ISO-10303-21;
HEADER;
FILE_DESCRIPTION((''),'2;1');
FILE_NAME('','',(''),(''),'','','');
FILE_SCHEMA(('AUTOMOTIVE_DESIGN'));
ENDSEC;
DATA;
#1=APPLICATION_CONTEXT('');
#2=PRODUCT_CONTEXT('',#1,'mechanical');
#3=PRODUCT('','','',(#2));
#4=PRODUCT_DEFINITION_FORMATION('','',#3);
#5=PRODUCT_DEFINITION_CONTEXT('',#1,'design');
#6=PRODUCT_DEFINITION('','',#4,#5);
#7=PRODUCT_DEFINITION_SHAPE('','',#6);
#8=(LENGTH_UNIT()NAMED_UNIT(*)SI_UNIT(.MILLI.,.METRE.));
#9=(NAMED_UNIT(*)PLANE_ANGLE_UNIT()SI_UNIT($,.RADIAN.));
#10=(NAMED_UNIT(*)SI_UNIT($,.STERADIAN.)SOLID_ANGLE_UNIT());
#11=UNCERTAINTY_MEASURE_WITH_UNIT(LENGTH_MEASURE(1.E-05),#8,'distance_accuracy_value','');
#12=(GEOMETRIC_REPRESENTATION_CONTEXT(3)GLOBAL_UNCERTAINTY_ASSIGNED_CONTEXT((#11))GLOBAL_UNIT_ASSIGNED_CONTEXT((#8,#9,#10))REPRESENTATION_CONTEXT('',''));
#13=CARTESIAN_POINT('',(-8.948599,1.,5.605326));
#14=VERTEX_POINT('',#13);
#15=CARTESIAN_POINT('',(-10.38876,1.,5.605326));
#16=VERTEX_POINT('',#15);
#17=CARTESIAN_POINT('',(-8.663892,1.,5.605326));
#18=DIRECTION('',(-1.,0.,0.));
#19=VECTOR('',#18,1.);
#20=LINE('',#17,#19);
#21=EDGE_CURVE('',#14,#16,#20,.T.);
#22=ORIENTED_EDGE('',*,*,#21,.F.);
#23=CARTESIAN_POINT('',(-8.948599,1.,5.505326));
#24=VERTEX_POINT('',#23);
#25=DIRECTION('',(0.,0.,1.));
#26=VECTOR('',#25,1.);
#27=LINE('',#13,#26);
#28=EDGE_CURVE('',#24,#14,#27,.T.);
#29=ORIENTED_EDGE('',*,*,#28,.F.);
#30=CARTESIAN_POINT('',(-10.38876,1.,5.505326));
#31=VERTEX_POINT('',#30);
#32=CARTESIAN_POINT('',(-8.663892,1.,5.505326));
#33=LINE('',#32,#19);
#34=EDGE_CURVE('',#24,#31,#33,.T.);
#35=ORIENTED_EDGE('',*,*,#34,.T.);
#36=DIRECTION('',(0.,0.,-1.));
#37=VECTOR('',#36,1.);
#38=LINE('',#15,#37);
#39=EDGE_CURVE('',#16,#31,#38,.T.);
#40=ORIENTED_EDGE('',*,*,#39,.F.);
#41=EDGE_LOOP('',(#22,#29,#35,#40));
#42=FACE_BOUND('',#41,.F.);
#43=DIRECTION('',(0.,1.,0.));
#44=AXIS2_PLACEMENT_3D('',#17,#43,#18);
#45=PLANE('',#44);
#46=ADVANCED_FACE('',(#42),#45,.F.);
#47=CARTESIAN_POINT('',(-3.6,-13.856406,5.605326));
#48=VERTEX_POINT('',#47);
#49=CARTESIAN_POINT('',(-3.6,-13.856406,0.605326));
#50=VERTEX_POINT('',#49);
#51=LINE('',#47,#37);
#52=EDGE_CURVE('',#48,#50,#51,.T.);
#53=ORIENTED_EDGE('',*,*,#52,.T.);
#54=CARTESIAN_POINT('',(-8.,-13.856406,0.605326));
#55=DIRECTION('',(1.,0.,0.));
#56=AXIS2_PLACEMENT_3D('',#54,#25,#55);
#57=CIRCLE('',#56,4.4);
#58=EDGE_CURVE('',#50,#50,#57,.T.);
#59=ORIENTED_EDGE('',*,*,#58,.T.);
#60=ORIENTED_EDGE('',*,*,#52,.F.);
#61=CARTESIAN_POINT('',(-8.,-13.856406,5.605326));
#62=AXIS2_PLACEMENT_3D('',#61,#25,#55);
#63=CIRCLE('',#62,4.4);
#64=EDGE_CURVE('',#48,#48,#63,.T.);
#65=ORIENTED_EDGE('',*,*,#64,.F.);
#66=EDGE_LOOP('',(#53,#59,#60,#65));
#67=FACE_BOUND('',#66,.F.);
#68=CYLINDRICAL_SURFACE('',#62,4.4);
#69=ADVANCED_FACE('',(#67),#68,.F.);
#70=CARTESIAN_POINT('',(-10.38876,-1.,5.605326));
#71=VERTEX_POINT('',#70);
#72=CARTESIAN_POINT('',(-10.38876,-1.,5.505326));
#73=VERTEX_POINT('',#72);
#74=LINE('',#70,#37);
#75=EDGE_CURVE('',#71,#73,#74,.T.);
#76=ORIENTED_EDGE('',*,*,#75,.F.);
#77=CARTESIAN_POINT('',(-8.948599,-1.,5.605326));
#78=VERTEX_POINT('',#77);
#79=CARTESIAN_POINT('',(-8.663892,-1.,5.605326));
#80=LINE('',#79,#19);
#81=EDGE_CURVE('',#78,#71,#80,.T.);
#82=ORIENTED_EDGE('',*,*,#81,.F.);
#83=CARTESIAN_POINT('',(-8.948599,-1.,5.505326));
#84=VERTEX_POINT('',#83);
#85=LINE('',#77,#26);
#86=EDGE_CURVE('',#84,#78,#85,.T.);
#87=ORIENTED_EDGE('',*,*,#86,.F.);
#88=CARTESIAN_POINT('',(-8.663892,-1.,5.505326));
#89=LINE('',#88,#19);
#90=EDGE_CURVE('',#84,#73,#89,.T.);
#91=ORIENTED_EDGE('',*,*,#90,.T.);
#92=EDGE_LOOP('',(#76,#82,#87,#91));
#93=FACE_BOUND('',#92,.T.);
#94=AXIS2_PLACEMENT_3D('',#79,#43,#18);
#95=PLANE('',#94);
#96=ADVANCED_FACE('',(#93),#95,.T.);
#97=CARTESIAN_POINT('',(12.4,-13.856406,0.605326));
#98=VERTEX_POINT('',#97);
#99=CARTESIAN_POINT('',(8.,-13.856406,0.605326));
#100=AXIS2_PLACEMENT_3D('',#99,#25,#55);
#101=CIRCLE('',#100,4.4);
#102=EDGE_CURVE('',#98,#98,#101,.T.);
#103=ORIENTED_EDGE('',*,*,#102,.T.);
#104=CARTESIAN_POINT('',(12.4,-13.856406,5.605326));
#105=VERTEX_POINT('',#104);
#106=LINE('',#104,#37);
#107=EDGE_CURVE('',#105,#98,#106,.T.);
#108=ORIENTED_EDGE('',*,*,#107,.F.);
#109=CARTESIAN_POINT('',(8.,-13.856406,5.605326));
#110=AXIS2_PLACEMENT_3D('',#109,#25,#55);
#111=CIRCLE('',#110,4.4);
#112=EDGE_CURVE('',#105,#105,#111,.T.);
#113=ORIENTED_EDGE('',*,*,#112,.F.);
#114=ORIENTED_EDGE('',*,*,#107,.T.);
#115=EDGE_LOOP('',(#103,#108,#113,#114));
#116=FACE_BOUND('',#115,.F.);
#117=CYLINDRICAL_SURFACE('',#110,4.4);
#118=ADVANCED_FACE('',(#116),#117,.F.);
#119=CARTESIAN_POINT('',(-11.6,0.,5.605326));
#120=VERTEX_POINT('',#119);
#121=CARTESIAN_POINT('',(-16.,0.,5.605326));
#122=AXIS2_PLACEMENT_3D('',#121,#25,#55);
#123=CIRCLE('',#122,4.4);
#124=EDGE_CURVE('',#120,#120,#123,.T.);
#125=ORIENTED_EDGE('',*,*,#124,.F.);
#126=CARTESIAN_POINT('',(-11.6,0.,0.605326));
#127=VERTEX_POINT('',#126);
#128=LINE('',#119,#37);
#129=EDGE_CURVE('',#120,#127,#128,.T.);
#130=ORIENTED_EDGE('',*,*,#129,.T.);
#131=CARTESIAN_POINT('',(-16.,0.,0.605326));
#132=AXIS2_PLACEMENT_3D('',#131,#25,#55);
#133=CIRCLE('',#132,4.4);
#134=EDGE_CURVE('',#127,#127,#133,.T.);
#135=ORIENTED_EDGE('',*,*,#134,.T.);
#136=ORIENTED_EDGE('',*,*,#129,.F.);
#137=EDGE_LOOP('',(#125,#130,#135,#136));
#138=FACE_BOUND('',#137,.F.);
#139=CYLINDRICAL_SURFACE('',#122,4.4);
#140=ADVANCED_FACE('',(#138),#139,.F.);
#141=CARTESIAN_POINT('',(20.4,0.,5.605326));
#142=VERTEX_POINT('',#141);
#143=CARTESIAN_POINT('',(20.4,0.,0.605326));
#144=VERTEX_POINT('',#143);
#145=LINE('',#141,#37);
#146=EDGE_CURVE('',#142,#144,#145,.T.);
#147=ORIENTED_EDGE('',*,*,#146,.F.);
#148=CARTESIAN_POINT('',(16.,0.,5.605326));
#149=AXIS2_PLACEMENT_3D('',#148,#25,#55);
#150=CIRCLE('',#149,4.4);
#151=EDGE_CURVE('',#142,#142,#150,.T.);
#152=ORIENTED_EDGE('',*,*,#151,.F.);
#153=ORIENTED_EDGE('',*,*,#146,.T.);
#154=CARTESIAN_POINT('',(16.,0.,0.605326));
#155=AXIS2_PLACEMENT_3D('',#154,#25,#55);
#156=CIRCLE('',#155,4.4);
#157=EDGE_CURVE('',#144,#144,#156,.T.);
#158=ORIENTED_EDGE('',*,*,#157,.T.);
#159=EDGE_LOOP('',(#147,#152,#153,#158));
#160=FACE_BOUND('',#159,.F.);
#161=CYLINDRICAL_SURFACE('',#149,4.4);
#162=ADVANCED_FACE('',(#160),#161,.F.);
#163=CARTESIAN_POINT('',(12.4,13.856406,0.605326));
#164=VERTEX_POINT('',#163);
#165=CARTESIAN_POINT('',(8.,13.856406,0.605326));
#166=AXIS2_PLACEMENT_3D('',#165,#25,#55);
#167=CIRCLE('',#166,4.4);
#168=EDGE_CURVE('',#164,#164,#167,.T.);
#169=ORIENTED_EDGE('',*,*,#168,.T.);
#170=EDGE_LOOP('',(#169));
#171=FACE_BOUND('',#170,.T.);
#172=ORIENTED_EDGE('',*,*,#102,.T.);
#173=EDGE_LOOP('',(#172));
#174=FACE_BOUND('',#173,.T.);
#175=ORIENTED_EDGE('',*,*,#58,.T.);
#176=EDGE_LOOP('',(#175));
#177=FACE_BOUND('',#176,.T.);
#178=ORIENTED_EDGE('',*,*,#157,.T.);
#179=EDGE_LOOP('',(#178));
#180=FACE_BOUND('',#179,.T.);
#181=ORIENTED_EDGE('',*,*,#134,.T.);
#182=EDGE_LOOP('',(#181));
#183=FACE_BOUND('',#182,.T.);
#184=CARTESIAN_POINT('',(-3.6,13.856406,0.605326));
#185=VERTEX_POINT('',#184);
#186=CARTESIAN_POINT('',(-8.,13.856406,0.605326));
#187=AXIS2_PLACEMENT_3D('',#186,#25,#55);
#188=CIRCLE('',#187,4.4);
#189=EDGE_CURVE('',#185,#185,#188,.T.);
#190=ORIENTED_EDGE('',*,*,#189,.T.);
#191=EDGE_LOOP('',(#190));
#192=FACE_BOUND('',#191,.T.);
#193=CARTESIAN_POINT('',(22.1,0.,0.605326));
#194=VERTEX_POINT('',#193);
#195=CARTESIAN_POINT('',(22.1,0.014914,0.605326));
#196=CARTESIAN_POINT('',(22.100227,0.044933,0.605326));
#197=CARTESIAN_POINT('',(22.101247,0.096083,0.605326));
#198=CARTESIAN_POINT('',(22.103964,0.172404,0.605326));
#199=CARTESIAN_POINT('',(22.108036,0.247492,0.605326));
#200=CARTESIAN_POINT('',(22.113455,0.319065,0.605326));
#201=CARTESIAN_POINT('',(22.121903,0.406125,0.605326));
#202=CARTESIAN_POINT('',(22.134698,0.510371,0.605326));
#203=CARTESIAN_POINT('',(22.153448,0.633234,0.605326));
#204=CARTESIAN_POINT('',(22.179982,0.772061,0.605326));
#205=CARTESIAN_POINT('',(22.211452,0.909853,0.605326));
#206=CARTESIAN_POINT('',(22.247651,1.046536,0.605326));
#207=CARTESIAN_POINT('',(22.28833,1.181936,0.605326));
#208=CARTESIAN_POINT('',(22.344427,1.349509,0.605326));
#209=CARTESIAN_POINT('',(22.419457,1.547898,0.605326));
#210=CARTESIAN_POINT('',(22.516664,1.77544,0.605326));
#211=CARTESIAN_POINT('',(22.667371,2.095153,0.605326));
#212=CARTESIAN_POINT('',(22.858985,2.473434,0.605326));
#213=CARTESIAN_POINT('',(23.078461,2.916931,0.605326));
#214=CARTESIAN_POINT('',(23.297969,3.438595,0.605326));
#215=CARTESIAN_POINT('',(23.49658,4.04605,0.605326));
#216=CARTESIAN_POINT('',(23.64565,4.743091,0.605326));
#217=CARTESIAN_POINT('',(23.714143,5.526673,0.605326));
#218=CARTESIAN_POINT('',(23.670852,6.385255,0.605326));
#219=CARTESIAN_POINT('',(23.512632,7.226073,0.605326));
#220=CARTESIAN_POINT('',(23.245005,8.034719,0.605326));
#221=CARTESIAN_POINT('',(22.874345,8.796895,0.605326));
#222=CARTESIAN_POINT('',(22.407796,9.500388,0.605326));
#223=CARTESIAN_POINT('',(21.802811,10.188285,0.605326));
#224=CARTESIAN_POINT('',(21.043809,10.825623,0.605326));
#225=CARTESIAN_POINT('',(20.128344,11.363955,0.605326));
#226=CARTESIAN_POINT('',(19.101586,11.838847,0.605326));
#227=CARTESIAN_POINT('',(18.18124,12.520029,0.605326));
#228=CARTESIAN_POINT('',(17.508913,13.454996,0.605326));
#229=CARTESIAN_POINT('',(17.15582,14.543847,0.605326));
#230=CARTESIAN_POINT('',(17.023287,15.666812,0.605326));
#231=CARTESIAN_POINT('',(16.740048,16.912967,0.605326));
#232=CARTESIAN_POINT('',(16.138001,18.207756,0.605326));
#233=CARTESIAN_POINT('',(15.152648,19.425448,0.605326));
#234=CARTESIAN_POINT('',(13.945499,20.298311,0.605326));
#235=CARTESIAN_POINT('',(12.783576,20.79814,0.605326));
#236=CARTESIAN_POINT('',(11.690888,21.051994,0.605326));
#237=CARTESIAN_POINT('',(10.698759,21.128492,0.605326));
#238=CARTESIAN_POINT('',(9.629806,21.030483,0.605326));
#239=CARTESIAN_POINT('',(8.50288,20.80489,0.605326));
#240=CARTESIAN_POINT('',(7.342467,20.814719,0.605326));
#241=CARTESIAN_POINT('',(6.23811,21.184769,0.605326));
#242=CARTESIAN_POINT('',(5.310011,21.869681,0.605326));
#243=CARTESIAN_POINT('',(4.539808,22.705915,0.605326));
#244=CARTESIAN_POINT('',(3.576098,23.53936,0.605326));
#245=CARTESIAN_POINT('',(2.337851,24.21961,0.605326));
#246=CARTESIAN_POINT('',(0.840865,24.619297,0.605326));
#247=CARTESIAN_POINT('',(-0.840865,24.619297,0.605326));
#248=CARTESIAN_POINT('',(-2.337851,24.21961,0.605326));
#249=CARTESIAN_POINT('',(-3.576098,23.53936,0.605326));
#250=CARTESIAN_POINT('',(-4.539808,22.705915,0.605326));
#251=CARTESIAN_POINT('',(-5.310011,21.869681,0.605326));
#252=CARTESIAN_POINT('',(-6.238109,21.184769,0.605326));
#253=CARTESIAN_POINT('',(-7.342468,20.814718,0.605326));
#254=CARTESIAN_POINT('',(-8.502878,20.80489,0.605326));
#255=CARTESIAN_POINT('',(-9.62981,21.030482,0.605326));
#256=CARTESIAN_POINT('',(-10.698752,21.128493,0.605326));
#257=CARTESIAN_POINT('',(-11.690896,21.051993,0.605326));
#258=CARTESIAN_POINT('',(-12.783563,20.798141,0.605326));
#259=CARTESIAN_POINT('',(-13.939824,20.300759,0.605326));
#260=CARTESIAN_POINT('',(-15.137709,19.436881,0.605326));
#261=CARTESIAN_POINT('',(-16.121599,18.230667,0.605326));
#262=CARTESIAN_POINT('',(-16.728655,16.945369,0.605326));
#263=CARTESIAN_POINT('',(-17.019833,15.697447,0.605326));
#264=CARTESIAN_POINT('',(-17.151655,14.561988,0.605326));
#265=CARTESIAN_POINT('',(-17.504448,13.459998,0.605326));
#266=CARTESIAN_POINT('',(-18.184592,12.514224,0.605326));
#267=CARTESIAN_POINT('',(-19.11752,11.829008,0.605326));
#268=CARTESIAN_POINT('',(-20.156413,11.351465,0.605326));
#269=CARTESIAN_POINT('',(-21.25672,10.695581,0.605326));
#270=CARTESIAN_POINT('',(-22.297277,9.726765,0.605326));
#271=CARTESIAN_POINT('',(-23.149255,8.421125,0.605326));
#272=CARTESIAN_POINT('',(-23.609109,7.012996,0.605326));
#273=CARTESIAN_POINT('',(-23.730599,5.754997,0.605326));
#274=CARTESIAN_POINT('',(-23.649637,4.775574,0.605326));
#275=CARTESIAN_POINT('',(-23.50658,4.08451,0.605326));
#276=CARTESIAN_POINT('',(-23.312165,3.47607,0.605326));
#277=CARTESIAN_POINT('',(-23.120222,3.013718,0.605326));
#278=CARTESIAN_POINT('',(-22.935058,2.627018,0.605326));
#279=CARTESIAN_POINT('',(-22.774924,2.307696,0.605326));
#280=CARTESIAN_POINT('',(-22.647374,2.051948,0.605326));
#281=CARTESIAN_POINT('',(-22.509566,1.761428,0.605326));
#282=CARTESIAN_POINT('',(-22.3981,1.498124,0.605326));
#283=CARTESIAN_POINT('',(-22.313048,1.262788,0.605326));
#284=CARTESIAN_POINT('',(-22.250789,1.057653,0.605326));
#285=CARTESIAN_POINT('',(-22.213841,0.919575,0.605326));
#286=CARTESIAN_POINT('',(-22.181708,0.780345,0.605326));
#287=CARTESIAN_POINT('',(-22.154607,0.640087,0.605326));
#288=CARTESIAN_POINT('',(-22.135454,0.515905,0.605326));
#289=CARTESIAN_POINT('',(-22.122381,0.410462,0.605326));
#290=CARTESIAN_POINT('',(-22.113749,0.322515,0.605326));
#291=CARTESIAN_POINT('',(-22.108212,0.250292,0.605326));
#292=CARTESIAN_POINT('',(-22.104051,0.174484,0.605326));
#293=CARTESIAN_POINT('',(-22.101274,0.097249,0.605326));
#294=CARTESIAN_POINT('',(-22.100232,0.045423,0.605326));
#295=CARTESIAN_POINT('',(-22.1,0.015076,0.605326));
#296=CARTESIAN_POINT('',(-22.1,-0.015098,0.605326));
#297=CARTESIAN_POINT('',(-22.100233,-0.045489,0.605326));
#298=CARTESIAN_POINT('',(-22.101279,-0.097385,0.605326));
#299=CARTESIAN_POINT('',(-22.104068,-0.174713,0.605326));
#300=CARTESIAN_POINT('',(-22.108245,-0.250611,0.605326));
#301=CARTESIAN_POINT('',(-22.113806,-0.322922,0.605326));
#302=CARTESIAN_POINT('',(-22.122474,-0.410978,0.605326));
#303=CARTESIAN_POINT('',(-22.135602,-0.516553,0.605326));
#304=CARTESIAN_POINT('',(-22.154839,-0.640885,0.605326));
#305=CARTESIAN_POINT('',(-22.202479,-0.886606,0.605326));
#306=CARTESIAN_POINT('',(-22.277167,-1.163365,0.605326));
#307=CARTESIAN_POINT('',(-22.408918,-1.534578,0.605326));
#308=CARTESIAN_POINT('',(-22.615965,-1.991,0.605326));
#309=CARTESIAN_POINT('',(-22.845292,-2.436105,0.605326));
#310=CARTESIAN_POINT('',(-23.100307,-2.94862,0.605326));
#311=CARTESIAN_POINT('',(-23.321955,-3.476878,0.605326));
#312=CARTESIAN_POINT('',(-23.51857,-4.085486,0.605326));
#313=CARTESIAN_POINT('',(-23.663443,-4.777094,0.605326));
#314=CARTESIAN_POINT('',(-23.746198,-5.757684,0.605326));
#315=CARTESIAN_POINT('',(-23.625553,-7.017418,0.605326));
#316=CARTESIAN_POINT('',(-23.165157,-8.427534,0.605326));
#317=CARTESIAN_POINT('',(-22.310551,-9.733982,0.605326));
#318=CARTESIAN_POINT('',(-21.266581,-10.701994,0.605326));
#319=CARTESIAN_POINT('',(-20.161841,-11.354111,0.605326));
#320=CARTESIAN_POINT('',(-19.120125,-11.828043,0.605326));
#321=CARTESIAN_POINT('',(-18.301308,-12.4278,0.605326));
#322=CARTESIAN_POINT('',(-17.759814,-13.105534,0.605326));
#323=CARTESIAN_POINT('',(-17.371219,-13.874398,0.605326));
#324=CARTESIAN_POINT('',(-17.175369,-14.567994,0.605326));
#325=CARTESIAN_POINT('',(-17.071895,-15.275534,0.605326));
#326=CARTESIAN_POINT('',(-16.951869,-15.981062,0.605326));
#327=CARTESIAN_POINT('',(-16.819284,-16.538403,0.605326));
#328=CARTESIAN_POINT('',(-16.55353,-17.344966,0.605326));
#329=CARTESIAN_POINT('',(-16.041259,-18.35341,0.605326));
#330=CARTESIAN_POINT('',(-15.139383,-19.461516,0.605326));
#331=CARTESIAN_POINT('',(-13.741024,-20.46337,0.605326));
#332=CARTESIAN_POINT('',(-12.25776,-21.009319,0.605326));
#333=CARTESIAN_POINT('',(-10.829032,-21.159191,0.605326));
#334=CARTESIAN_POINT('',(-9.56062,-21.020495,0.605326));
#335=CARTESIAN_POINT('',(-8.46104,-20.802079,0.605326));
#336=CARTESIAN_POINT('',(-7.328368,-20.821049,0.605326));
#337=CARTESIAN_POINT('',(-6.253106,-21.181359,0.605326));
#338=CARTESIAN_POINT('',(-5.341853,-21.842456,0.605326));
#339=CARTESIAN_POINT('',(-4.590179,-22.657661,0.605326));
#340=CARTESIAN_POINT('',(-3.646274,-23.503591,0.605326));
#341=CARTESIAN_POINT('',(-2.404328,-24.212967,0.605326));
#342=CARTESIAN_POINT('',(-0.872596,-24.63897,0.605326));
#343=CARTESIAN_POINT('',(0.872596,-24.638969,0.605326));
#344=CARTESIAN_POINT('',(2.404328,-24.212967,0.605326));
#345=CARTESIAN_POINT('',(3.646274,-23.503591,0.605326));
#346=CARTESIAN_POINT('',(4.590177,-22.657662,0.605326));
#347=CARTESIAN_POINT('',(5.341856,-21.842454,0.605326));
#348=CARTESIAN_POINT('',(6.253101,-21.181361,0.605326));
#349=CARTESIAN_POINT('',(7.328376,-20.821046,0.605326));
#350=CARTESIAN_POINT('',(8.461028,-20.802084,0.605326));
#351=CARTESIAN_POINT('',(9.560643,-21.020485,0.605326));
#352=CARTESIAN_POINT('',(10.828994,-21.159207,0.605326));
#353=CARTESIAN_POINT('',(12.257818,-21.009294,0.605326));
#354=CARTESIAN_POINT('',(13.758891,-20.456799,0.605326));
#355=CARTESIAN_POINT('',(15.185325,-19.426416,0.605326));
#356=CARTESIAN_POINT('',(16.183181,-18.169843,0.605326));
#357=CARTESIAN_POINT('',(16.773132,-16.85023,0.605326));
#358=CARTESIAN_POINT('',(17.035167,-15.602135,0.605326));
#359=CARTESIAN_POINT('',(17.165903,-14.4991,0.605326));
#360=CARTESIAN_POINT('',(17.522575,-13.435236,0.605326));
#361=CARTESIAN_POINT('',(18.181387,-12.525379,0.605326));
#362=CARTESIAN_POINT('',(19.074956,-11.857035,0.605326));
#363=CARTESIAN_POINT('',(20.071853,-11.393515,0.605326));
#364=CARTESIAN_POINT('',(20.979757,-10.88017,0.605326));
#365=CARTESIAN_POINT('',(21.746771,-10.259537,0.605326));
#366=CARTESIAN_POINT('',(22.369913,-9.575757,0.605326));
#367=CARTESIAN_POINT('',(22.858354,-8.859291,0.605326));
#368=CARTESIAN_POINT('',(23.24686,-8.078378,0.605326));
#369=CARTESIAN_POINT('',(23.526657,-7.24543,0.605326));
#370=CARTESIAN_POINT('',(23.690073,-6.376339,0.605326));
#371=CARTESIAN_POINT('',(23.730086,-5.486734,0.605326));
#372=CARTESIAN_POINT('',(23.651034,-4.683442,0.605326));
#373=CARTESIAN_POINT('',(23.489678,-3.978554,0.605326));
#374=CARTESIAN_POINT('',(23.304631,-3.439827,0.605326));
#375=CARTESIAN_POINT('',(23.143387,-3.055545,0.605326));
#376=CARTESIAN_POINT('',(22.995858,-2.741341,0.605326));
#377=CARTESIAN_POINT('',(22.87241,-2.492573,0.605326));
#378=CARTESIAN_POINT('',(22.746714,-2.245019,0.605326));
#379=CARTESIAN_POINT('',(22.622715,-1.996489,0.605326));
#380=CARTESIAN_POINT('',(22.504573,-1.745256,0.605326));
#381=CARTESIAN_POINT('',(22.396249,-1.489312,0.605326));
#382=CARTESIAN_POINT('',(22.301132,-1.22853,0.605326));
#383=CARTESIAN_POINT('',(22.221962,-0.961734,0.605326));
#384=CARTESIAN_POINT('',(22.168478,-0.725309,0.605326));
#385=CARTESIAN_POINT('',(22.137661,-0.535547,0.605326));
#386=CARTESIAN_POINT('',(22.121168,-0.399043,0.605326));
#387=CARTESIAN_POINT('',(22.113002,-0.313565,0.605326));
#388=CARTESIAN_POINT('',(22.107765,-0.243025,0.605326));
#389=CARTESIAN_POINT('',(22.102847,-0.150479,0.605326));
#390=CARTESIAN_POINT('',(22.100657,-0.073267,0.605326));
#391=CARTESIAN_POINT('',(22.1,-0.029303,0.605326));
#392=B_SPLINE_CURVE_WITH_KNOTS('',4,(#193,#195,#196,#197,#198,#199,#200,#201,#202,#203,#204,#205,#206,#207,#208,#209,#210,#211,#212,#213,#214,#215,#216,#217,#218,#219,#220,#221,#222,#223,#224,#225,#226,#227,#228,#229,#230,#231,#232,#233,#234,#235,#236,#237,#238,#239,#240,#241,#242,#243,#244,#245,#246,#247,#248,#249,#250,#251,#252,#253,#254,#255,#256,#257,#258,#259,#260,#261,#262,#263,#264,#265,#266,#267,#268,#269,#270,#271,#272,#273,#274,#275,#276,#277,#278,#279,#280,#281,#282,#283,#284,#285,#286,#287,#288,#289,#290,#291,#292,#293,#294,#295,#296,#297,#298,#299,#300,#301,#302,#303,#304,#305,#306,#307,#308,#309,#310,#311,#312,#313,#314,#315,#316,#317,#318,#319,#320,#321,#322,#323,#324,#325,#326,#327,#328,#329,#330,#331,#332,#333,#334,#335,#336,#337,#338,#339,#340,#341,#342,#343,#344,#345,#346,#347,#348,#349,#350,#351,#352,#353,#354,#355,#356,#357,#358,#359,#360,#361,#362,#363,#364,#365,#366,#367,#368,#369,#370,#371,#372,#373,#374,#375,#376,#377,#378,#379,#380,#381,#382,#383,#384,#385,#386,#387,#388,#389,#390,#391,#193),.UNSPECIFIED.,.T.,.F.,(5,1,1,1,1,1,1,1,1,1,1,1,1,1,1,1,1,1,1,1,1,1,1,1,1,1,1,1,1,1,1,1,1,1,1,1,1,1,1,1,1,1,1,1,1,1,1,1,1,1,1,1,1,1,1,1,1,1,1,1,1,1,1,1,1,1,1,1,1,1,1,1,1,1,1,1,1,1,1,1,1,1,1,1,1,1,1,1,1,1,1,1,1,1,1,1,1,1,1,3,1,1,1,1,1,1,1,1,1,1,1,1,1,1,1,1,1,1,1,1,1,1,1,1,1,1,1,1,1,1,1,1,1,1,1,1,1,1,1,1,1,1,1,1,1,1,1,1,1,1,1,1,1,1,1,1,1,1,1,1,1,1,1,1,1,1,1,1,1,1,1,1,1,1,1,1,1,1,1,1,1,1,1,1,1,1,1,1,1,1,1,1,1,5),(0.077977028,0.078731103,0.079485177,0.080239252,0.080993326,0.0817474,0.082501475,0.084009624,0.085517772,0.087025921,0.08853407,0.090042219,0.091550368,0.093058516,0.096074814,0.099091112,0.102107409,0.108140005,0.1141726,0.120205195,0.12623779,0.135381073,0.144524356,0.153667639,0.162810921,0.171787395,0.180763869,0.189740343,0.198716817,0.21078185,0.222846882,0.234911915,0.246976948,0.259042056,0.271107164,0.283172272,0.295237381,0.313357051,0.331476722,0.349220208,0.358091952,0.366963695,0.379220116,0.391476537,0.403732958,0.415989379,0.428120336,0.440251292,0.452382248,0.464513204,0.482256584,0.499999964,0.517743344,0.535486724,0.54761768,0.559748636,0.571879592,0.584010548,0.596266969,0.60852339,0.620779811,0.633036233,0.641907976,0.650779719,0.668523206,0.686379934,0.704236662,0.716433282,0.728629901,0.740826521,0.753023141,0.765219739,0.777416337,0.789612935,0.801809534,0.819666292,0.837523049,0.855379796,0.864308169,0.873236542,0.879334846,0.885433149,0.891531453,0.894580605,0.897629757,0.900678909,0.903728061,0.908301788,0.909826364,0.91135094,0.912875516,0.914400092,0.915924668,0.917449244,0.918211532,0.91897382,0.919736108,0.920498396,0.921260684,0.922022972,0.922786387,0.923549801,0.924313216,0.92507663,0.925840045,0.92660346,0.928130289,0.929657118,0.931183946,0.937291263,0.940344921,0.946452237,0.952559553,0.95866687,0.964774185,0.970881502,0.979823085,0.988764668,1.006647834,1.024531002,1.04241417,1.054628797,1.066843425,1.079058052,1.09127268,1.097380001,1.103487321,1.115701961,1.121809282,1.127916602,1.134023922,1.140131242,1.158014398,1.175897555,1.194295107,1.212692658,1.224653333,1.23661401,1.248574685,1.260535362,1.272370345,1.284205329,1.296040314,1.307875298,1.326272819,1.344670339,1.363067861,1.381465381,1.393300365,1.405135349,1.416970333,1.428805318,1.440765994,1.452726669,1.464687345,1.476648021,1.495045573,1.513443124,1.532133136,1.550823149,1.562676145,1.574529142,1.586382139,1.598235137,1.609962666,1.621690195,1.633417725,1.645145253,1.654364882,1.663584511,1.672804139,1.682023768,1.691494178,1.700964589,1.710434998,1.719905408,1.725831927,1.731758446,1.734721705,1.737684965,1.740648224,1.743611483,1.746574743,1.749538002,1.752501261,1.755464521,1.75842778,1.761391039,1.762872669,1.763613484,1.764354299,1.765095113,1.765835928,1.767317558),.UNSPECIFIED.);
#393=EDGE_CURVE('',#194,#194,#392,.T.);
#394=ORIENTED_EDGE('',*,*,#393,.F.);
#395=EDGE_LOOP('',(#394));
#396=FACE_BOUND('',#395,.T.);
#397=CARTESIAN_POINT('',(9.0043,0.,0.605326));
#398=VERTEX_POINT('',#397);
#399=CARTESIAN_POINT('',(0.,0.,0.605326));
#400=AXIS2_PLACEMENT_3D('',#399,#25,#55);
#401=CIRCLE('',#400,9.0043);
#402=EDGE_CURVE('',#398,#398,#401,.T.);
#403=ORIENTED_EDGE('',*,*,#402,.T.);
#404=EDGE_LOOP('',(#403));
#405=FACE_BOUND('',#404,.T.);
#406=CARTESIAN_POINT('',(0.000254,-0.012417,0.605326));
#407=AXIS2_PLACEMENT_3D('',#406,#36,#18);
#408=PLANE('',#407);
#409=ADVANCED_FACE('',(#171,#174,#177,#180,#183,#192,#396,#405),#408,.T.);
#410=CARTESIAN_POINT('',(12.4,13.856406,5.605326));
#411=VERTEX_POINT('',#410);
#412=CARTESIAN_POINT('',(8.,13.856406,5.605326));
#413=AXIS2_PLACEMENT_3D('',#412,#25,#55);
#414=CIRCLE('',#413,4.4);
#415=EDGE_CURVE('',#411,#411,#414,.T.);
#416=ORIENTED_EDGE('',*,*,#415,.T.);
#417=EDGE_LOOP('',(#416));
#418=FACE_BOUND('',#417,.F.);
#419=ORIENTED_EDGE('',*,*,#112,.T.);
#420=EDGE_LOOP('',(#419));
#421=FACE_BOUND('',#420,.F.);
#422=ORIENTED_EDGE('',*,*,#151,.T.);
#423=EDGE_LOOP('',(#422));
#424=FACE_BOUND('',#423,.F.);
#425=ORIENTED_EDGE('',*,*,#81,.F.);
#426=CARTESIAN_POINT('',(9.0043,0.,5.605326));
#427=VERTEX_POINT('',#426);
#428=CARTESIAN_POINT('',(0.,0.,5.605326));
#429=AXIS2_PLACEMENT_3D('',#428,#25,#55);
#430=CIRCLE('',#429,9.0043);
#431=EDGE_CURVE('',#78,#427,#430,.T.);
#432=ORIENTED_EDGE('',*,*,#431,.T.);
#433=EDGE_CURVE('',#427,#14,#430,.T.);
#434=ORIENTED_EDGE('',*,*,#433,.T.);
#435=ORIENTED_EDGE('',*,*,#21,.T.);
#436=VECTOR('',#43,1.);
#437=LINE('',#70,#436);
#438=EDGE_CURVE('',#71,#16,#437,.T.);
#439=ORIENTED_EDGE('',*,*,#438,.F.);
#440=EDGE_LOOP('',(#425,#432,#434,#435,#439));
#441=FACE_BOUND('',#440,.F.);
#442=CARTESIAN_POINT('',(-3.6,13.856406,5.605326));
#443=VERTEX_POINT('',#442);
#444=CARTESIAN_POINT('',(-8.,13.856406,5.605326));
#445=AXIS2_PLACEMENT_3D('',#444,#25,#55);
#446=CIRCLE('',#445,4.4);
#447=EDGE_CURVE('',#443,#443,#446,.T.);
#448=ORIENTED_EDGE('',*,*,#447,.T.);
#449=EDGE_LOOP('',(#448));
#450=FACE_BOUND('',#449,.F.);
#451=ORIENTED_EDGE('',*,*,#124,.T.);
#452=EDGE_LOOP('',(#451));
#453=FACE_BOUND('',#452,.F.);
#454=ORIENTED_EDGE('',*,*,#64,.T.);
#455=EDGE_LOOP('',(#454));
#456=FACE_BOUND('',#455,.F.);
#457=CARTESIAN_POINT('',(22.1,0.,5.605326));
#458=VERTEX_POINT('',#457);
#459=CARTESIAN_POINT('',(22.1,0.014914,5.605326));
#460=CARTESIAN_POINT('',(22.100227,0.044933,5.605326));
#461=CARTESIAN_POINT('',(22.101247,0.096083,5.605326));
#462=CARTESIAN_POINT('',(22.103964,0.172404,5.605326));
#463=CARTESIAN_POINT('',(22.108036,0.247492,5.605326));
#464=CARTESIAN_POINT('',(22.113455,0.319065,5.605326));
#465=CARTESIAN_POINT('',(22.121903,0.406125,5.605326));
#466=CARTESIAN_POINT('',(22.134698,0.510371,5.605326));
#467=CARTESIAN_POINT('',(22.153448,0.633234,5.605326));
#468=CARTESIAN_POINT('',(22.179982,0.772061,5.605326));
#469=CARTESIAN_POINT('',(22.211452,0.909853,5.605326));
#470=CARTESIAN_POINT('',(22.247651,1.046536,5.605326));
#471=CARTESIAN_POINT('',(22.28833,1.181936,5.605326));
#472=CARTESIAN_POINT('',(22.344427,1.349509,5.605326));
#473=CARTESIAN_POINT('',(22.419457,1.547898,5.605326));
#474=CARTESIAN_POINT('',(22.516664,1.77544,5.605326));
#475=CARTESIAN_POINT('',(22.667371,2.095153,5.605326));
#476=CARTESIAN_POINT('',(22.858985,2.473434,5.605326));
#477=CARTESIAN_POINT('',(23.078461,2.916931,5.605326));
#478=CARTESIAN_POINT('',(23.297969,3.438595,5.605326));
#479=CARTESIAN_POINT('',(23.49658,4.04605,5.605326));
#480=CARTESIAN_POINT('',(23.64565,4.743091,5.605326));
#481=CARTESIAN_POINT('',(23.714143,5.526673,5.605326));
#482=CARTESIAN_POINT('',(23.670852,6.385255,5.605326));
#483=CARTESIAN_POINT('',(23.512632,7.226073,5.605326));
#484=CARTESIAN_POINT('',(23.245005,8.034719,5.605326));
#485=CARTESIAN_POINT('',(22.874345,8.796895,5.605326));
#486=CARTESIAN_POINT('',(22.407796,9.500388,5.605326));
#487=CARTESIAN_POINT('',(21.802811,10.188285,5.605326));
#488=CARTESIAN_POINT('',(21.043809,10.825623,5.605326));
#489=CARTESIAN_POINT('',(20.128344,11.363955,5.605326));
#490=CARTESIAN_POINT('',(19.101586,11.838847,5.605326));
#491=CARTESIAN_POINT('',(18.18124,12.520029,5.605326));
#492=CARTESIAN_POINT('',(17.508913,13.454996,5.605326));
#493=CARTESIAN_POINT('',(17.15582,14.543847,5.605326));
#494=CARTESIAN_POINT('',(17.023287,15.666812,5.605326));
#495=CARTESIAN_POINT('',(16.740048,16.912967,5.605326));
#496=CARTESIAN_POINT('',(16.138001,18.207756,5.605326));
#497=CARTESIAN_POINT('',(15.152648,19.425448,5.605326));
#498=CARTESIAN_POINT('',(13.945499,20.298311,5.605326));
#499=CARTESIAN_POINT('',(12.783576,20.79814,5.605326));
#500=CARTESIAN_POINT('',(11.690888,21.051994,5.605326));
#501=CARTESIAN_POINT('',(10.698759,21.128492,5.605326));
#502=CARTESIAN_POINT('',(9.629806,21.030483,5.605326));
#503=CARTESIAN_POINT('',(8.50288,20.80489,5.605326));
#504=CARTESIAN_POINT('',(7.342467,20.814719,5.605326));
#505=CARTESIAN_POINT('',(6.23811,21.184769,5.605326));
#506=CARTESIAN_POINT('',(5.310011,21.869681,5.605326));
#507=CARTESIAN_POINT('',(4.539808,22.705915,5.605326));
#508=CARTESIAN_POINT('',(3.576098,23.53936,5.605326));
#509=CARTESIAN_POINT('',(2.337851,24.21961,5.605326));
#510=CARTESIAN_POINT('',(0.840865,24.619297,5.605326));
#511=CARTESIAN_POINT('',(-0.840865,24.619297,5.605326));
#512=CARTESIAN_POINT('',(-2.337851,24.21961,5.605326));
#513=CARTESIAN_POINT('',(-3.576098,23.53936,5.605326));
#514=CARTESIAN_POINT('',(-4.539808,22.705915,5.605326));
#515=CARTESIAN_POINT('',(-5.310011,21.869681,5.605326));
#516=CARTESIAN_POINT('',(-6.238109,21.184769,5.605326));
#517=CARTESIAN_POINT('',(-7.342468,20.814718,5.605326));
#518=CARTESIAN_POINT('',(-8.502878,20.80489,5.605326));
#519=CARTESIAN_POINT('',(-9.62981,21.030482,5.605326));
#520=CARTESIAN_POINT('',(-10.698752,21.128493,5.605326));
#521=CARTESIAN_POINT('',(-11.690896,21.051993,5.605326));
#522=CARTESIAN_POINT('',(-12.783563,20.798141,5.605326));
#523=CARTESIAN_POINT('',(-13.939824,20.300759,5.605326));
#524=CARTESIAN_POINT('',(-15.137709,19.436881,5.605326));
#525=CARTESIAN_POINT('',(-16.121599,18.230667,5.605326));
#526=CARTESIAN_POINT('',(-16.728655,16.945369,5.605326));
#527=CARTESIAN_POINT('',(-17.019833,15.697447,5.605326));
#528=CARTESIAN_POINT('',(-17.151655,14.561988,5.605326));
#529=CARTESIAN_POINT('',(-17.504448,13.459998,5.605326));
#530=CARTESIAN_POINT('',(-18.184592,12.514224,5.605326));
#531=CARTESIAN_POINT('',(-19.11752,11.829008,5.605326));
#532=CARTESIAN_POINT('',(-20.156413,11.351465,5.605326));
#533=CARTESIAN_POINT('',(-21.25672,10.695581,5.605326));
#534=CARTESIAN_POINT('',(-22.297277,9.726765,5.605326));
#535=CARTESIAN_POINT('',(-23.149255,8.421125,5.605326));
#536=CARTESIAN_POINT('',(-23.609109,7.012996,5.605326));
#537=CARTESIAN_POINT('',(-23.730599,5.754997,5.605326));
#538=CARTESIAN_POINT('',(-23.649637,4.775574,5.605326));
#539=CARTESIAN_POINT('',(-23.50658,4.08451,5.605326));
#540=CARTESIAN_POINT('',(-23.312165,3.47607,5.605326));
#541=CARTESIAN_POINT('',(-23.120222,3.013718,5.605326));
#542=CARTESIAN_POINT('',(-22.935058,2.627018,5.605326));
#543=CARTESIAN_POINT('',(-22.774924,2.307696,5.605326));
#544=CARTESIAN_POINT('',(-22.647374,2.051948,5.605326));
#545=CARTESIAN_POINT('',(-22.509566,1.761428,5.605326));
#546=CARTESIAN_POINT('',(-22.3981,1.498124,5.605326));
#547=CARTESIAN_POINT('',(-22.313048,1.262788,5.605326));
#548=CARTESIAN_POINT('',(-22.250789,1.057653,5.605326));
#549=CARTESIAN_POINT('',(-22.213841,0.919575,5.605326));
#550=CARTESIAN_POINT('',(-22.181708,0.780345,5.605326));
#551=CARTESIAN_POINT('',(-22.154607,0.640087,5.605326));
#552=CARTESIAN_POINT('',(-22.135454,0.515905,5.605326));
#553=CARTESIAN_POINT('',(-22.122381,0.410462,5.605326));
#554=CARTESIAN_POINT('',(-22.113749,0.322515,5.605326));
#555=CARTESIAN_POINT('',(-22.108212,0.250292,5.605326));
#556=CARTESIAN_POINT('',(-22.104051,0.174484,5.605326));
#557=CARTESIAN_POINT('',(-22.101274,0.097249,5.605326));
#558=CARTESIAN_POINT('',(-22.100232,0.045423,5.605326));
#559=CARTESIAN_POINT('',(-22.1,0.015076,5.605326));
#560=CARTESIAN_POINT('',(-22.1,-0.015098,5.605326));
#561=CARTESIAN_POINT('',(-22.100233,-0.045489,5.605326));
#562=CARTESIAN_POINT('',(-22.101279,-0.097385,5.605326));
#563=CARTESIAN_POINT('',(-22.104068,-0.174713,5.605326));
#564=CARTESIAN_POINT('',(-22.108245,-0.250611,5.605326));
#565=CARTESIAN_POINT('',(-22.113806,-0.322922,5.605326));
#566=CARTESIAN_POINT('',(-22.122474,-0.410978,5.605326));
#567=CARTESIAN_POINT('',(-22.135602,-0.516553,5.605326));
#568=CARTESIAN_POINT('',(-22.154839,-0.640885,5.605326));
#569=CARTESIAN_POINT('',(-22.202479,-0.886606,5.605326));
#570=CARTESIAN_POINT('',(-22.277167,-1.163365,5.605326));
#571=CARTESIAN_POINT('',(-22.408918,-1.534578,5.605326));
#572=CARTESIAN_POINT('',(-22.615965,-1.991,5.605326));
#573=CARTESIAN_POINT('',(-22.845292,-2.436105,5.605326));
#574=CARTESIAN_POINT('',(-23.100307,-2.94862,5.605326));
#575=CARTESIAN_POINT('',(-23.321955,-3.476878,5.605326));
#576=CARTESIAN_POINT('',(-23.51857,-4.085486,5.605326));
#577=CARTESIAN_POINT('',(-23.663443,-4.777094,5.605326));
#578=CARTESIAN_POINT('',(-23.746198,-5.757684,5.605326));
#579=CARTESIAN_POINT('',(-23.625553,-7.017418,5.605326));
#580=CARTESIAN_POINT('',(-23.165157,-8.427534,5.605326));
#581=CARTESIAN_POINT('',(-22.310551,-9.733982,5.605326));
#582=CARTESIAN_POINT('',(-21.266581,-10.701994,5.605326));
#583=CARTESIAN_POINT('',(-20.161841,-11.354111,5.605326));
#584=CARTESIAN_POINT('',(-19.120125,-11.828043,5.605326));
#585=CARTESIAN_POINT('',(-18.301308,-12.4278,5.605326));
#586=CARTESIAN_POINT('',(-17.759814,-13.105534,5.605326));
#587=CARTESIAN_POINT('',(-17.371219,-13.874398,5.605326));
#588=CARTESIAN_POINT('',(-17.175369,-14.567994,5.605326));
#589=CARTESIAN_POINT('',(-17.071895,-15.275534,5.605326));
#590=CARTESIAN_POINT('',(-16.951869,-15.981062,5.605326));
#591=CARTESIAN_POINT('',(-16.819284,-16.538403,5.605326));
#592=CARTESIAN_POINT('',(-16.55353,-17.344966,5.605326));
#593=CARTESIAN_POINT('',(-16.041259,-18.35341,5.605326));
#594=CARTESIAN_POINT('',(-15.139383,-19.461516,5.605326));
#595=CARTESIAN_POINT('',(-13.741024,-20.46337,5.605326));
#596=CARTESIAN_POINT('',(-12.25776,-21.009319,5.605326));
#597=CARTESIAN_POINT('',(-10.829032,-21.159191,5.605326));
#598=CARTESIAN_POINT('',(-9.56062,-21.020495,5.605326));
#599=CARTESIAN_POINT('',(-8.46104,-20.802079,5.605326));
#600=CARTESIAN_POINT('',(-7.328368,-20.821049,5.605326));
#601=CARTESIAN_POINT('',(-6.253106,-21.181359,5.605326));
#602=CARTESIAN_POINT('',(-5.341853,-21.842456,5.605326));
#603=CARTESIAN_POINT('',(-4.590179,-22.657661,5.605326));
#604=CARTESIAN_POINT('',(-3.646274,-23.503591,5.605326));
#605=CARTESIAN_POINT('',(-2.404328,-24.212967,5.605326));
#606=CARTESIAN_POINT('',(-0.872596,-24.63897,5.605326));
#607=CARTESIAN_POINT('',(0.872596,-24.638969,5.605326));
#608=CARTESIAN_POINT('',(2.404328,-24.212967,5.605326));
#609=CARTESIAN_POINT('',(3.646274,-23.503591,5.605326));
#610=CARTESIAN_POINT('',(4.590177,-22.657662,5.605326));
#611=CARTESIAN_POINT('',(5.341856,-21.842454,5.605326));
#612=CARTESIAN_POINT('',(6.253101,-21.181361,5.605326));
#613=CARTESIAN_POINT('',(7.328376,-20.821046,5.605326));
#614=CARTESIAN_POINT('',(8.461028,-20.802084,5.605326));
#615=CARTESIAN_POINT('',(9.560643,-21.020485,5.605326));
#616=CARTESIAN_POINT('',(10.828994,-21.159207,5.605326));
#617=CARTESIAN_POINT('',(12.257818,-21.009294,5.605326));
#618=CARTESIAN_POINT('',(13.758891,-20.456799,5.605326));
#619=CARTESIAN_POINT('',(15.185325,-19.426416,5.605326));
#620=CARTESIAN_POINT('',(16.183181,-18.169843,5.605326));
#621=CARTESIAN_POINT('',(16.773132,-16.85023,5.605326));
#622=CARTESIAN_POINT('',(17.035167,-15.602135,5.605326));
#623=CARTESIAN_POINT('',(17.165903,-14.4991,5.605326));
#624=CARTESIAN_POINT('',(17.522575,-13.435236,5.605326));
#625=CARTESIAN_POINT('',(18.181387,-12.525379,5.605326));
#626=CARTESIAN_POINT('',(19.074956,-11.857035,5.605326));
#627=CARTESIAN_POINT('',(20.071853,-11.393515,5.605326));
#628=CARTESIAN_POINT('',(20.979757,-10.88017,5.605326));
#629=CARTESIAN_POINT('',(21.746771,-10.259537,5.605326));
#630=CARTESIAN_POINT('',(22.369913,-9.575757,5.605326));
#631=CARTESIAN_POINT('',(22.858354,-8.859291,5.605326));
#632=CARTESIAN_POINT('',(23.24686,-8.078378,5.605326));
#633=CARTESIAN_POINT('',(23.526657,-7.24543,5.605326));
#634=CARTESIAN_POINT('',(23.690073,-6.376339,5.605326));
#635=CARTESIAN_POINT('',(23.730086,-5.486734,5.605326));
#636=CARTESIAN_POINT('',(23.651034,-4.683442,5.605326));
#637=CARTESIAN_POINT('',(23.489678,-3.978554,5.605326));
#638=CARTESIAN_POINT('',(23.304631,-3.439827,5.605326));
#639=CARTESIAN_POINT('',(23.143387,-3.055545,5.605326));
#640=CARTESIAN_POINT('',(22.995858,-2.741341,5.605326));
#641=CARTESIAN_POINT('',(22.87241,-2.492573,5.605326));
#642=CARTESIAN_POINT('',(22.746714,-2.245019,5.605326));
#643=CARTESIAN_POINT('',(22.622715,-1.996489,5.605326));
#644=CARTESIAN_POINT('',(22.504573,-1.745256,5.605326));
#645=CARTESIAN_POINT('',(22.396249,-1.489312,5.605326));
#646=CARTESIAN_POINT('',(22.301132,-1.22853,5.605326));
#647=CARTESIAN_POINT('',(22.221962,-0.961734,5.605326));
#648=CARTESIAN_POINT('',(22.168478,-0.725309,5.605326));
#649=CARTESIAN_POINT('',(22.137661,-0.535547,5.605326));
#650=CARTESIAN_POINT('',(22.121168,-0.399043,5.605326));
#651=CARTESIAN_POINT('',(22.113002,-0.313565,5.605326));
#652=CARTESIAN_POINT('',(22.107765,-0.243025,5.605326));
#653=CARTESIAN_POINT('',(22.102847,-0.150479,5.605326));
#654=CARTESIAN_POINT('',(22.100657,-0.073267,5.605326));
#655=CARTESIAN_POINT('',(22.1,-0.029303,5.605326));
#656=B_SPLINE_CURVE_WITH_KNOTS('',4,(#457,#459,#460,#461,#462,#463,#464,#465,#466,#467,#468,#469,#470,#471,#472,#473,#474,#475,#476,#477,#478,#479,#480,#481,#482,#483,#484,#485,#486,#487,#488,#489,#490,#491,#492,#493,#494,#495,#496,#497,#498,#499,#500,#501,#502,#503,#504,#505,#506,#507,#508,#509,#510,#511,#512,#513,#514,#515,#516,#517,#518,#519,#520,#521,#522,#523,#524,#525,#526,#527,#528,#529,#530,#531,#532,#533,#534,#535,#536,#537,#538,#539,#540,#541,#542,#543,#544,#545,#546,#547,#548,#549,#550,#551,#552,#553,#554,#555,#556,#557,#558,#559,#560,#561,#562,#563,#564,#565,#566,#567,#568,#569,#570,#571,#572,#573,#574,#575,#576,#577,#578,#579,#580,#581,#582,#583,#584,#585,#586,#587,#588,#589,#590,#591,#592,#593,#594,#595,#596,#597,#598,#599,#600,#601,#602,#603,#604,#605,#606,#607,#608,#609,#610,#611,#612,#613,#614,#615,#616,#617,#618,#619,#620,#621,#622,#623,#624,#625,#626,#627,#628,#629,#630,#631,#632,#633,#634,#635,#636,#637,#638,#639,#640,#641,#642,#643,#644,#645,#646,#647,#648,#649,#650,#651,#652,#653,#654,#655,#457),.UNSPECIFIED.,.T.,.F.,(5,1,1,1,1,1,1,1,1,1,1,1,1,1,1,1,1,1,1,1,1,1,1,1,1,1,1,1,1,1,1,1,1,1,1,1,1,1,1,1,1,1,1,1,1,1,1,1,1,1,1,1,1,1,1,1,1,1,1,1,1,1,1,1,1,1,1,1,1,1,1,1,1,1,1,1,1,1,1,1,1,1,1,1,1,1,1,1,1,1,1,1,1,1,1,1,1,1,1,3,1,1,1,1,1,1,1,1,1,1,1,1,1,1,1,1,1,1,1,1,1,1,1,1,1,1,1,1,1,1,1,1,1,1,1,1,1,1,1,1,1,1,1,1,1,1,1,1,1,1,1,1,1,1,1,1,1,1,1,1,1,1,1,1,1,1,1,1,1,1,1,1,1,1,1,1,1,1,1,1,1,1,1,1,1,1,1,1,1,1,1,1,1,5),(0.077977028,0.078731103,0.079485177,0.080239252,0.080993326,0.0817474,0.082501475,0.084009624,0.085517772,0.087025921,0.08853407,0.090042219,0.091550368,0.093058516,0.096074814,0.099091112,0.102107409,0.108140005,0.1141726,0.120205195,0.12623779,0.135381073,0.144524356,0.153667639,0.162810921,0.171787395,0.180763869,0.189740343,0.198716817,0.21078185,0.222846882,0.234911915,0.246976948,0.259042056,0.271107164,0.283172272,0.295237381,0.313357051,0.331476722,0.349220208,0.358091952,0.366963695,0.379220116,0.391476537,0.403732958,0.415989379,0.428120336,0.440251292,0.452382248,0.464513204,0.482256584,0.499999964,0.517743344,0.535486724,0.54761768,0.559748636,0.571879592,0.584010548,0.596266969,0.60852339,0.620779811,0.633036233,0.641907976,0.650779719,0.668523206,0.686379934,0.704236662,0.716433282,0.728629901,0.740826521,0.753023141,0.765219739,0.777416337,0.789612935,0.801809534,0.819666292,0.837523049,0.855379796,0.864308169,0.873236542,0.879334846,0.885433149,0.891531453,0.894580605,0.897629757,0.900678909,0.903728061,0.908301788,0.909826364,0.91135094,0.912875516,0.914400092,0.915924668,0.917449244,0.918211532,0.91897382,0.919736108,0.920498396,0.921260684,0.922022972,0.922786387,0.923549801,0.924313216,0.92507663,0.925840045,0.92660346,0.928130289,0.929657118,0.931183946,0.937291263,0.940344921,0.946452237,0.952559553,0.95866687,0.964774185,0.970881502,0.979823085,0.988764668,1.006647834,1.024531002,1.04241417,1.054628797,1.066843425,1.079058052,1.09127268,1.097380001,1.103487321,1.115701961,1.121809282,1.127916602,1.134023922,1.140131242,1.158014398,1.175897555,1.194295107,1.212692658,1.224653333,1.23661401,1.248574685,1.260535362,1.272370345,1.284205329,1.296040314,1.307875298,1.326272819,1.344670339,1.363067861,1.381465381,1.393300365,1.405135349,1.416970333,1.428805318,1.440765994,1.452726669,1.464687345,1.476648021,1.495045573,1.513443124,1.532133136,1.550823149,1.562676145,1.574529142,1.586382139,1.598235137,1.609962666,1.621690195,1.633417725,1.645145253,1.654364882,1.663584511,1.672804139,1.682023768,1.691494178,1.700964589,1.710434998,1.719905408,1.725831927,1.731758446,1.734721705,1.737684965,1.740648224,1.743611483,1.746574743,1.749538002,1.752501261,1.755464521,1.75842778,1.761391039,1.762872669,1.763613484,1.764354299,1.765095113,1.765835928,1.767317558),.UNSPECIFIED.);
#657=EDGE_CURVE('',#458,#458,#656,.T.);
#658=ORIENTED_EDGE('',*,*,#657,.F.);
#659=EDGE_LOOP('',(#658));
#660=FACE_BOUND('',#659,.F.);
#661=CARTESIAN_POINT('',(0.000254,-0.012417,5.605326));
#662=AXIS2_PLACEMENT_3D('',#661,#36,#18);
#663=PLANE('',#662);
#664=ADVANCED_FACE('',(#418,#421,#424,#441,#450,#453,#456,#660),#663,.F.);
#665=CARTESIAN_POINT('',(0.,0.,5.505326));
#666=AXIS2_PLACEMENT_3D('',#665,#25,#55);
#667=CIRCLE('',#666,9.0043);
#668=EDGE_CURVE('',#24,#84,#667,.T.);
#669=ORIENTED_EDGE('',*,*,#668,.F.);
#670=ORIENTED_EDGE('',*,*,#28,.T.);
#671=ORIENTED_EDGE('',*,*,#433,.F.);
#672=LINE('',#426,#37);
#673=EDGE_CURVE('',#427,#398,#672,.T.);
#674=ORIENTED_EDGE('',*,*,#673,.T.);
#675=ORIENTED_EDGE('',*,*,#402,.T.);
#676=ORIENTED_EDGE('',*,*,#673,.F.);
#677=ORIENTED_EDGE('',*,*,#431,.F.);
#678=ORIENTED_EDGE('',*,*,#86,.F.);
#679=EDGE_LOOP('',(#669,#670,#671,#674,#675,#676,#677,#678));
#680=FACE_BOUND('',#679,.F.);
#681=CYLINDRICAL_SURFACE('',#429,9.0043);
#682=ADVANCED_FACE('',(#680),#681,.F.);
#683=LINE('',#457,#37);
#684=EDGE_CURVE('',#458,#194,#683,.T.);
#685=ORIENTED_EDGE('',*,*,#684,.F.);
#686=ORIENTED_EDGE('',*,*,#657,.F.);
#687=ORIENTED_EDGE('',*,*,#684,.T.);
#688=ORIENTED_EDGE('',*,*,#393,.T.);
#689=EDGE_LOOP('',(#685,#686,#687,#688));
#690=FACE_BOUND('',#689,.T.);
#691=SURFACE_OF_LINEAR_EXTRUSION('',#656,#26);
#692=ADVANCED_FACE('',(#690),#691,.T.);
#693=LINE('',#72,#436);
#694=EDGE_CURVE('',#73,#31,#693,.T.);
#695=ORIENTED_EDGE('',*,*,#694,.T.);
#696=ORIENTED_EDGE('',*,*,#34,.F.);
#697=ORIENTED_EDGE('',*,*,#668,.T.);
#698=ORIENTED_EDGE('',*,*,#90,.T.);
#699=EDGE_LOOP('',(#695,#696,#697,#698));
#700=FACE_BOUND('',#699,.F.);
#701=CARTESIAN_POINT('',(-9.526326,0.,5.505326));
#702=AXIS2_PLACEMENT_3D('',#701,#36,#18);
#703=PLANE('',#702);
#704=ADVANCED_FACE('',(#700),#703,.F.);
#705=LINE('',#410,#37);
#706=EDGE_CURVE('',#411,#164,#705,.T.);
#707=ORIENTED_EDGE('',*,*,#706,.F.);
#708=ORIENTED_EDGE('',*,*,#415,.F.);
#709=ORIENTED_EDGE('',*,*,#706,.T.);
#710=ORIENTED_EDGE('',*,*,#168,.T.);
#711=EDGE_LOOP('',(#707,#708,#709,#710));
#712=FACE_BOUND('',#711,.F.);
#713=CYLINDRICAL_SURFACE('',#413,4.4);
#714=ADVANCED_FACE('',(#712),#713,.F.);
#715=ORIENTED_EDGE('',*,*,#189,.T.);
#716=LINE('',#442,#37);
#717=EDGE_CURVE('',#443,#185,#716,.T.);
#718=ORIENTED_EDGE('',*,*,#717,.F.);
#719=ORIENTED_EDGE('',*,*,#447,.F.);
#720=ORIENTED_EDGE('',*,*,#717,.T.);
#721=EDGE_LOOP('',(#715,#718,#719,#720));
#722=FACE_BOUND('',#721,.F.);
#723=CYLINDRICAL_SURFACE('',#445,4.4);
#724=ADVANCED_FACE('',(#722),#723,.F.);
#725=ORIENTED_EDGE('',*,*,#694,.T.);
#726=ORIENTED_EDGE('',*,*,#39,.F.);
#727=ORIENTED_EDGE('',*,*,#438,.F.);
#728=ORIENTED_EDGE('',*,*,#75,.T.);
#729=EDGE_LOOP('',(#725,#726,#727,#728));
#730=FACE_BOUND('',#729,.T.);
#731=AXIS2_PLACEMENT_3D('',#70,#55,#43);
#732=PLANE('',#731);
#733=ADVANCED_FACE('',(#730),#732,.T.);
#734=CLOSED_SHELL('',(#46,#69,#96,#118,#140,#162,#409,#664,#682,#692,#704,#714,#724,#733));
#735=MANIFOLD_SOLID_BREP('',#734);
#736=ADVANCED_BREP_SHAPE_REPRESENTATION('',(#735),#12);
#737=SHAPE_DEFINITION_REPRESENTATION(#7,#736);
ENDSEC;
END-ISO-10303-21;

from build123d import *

# Parameters (mm, degrees)
SKETCH2_R           = 9.0043
SKETCH2_R_2         = 4.4
BOSS_EXTRUDE1_DEPTH = 5
CUT_EXTRUDE1_DEPTH  = 0.1


with BuildPart() as part:
    # Sketch2 → Boss-Extrude1 (new body)
    with BuildSketch(Plane.XY.offset(5.605325797)):
        with BuildLine():
            add(Edge.make_bspline(
                [(22.1, 0), (22.1, -0.029302567), (22.100656996, -0.073267299), (22.102846978, -0.150479345), (22.107765032, -0.243024679), (22.113002169, -0.31356521), (22.121167512, -0.399042775), (22.137660505, -0.535547313), (22.168477812, -0.725309174), (22.221962498, -0.961733919), (22.301132136, -1.228529968), (22.396248759, -1.489311546), (22.504572502, -1.745256299), (22.622714563, -1.996489409), (22.746713886, -2.245018567), (22.87241041, -2.492573124), (22.995858066, -2.741341347), (23.143387346, -3.055544856), (23.304631036, -3.439826563), (23.489677504, -3.978553819), (23.651034334, -4.683442393), (23.730085815, -5.486733771), (23.690072978, -6.376338564), (23.526656928, -7.245430382), (23.246859664, -8.078377589), (22.858354421, -8.859291128), (22.36991344, -9.575757168), (21.746771046, -10.259536929), (20.979757182, -10.880170438), (20.07185269, -11.393514988), (19.074956387, -11.857034761), (18.181387307, -12.525379462), (17.522574849, -13.435236027), (17.165903162, -14.499100143), (17.035166981, -15.602135191), (16.773131617, -16.850230243), (16.183180557, -18.169843003), (15.185324779, -19.426415814), (13.758890787, -20.45679901), (12.257817896, -21.009294245), (10.828993799, -21.15920723), (9.560643085, -21.020485338), (8.461027709, -20.802084394), (7.328375606, -20.821045963), (6.253101017, -21.181361325), (5.341855753, -21.842454293), (4.590177093, -22.657661818), (3.646274458, -23.503590974), (2.404327803, -24.212967426), (0.872596385, -24.63896937), (-0.872596249, -24.638969598), (-2.404328196, -24.212967156), (-3.646273705, -23.503591358), (-4.590178654, -22.657661122), (-5.341852785, -21.84245556), (-6.253105576, -21.1813594), (-7.328368243, -20.821049059), (-8.46104013, -20.80207918), (-9.560620352, -21.020494874), (-10.829032369, -21.159191057), (-12.257759872, -21.009318559), (-13.741024473, -20.463370436), (-15.139383208, -19.4615155), (-16.041258918, -18.353410382), (-16.553530054, -17.344966352), (-16.819283882, -16.538402702), (-16.951869323, -15.981061926), (-17.071894903, -15.275534032), (-17.175369193, -14.567994024), (-17.371218875, -13.874397941), (-17.759814305, -13.10553406), (-18.30130832, -12.427799863), (-19.120124546, -11.828042716), (-20.161840701, -11.354111243), (-21.266581229, -10.70199441), (-22.310551276, -9.733982335), (-23.165156921, -8.427533899), (-23.625552587, -7.017417615), (-23.746197848, -5.757684391), (-23.663442889, -4.777094196), (-23.518570066, -4.085486246), (-23.321955401, -3.476877841), (-23.100306653, -2.948620034), (-22.84529241, -2.436105267), (-22.615965168, -1.990999888), (-22.408917504, -1.534577596), (-22.277167112, -1.163364664), (-22.202479171, -0.886606409), (-22.154838808, -0.640885487), (-22.13560223, -0.516552839), (-22.122473754, -0.410978079), (-22.113805721, -0.322921864), (-22.10824541, -0.250610924), (-22.104067745, -0.17471333), (-22.1012791, -0.097385476), (-22.100232564, -0.045489039), (-22.1, -0.015098244), (-22.1, 0)],
                knots=[0.07789061, 0.07789061, 0.07789061, 0.07789061, 0.07789061, 0.079370354, 0.080110226, 0.080850098, 0.08158997, 0.082329842, 0.083809586, 0.086769074, 0.089728562, 0.09268805, 0.095647538, 0.098607026, 0.101566514, 0.104526002, 0.10748549, 0.110444978, 0.113404466, 0.119323442, 0.125242418, 0.134700775, 0.144159132, 0.15361749, 0.163075847, 0.172283742, 0.181491636, 0.190699531, 0.199907426, 0.211620029, 0.223332633, 0.235045236, 0.24675784, 0.258595752, 0.270433664, 0.282271576, 0.294109487, 0.312775713, 0.331441938, 0.349816075, 0.368190212, 0.380135666, 0.392081119, 0.404026572, 0.415972026, 0.427791948, 0.43961187, 0.451431791, 0.463251713, 0.481625819, 0.499999926, 0.518374032, 0.536748138, 0.54856806, 0.560387982, 0.572207904, 0.584027825, 0.595973279, 0.607918732, 0.619864186, 0.631809639, 0.650183776, 0.668557913, 0.68641831, 0.704278706, 0.710378253, 0.716477801, 0.722577348, 0.728676896, 0.740875991, 0.746975538, 0.753075086, 0.765274168, 0.77747325, 0.789672332, 0.801871414, 0.819731822, 0.83759223, 0.855452636, 0.864382839, 0.873313042, 0.879412586, 0.885512129, 0.891611673, 0.897711216, 0.903810759, 0.906860531, 0.912960075, 0.91448496, 0.916009846, 0.917534732, 0.918297175, 0.919059618, 0.919822061, 0.920584504, 0.921346947, 0.92210939, 0.92210939, 0.92210939, 0.92210939, 0.92210939], degree=4))
            add(Edge.make_bspline(
                [(22.1, 0), (22.1, 0.014913522), (22.100226653, 0.044933173), (22.10124659, 0.096082665), (22.103964371, 0.172403639), (22.1080359, 0.247492105), (22.113454992, 0.319065267), (22.121902979, 0.406124587), (22.134698422, 0.510371309), (22.153447855, 0.633233839), (22.179982074, 0.772060815), (22.211452218, 0.909853003), (22.247651008, 1.046536238), (22.288329804, 1.181935635), (22.344427346, 1.349509412), (22.419456754, 1.547897543), (22.516663816, 1.77543969), (22.667370853, 2.095152506), (22.858985392, 2.473433664), (23.078460642, 2.916931322), (23.297969399, 3.438594817), (23.496579982, 4.046049559), (23.64564957, 4.743090599), (23.714142725, 5.526673223), (23.670851556, 6.385255045), (23.512632324, 7.226073234), (23.245004777, 8.034719064), (22.874344583, 8.796894529), (22.407796336, 9.500388465), (21.802810765, 10.188284793), (21.043808682, 10.825622856), (20.128343518, 11.363955359), (19.101585771, 11.838846865), (18.181239937, 12.520028998), (17.50891279, 13.454995968), (17.155819834, 14.543847375), (17.02328672, 15.666811584), (16.740047931, 16.912966571), (16.138001231, 18.207755715), (15.152648058, 19.425448044), (13.945498817, 20.298310592), (12.783576336, 20.798139903), (11.690887772, 21.051994172), (10.698758715, 21.128491931), (9.629805955, 21.030482528), (8.50287965, 20.804890253), (7.342467075, 20.814718589), (6.238109955, 21.184768886), (5.31001074, 21.869680724), (4.539808437, 22.705915037), (3.576098101, 23.539359516), (2.337850697, 24.219609627), (0.840864936, 24.619297162), (-0.840864954, 24.619297154), (-2.337850638, 24.219609637), (-3.576098219, 23.539359501), (-4.539808186, 22.705915064), (-5.310011212, 21.869680677), (-6.238109236, 21.184768958), (-7.342468241, 20.814718473), (-8.502877632, 20.804890453), (-9.629809926, 21.030482133), (-10.698752375, 21.128492562), (-11.690895606, 21.051993386), (-12.783563324, 20.798141241), (-13.939824249, 20.30075947), (-15.137709214, 19.436881183), (-16.121598679, 18.230667487), (-16.728655439, 16.945369314), (-17.019832961, 15.697447108), (-17.151654869, 14.561988282), (-17.504447964, 13.459997777), (-18.184591746, 12.514224003), (-19.117520125, 11.829007906), (-20.156413449, 11.351465046), (-21.256719581, 10.695581158), (-22.297277306, 9.726765243), (-23.149255071, 8.421124942), (-23.60910939, 7.012995514), (-23.730598606, 5.75499692), (-23.649636571, 4.775573938), (-23.506579637, 4.08451009), (-23.312164543, 3.476070063), (-23.120221717, 3.01371781), (-22.935057566, 2.627018443), (-22.774924406, 2.307695536), (-22.647373706, 2.051947916), (-22.509566084, 1.761427705), (-22.398099841, 1.498124207), (-22.313048098, 1.26278764), (-22.25078913, 1.057652616), (-22.213840712, 0.919575427), (-22.181707778, 0.780344568), (-22.154607389, 0.640086531), (-22.135453799, 0.515905115), (-22.122380878, 0.410461871), (-22.113749008, 0.322515453), (-22.108211682, 0.250292312), (-22.104051158, 0.174484331), (-22.101273896, 0.097249104), (-22.100231618, 0.045422996), (-22.1, 0.015075963), (-22.1, 0)],
                knots=[0.077977028, 0.077977028, 0.077977028, 0.077977028, 0.077977028, 0.078731103, 0.079485177, 0.080239252, 0.080993326, 0.0817474, 0.082501475, 0.084009624, 0.085517772, 0.087025921, 0.08853407, 0.090042219, 0.091550368, 0.093058516, 0.096074814, 0.099091112, 0.102107409, 0.108140005, 0.1141726, 0.120205195, 0.12623779, 0.135381073, 0.144524356, 0.153667639, 0.162810921, 0.171787395, 0.180763869, 0.189740343, 0.198716817, 0.21078185, 0.222846882, 0.234911915, 0.246976948, 0.259042056, 0.271107164, 0.283172272, 0.295237381, 0.313357051, 0.331476722, 0.349220208, 0.358091952, 0.366963695, 0.379220116, 0.391476537, 0.403732958, 0.415989379, 0.428120336, 0.440251292, 0.452382248, 0.464513204, 0.482256584, 0.499999964, 0.517743344, 0.535486724, 0.54761768, 0.559748636, 0.571879592, 0.584010548, 0.596266969, 0.60852339, 0.620779811, 0.633036233, 0.641907976, 0.650779719, 0.668523206, 0.686379934, 0.704236662, 0.716433282, 0.728629901, 0.740826521, 0.753023141, 0.765219739, 0.777416337, 0.789612935, 0.801809534, 0.819666292, 0.837523049, 0.855379796, 0.864308169, 0.873236542, 0.879334846, 0.885433149, 0.891531453, 0.894580605, 0.897629757, 0.900678909, 0.903728061, 0.908301788, 0.909826364, 0.91135094, 0.912875516, 0.914400092, 0.915924668, 0.917449244, 0.918211532, 0.91897382, 0.919736108, 0.920498396, 0.921260684, 0.922022972, 0.922022972, 0.922022972, 0.922022972, 0.922022972], degree=4))
        make_face()
        Circle(SKETCH2_R, mode=Mode.SUBTRACT)
        with Locations((8, 13.856406461)):
            Circle(SKETCH2_R_2, mode=Mode.SUBTRACT)
        with Locations((16, 0)):
            Circle(SKETCH2_R_2, mode=Mode.SUBTRACT)
        with Locations((8, -13.856406461)):
            Circle(SKETCH2_R_2, mode=Mode.SUBTRACT)
        with Locations((-8, -13.856406461)):
            Circle(SKETCH2_R_2, mode=Mode.SUBTRACT)
        with Locations((-16, 0)):
            Circle(SKETCH2_R_2, mode=Mode.SUBTRACT)
        with Locations((-8, 13.856406461)):
            Circle(SKETCH2_R_2, mode=Mode.SUBTRACT)
    extrude(amount=-BOSS_EXTRUDE1_DEPTH)

    # Sketch3 → Cut-Extrude1 (cut)
    with BuildSketch(Plane.XY.offset(5.605325797)):
        Polygon((-10.388759749, -1), (-10.388759749, 1), (-8.742920185, 1), (-8.663892273, 1), (-8.663892273, -1), align=None)
    extrude(amount=-CUT_EXTRUDE1_DEPTH, mode=Mode.SUBTRACT)


solid = part.part
